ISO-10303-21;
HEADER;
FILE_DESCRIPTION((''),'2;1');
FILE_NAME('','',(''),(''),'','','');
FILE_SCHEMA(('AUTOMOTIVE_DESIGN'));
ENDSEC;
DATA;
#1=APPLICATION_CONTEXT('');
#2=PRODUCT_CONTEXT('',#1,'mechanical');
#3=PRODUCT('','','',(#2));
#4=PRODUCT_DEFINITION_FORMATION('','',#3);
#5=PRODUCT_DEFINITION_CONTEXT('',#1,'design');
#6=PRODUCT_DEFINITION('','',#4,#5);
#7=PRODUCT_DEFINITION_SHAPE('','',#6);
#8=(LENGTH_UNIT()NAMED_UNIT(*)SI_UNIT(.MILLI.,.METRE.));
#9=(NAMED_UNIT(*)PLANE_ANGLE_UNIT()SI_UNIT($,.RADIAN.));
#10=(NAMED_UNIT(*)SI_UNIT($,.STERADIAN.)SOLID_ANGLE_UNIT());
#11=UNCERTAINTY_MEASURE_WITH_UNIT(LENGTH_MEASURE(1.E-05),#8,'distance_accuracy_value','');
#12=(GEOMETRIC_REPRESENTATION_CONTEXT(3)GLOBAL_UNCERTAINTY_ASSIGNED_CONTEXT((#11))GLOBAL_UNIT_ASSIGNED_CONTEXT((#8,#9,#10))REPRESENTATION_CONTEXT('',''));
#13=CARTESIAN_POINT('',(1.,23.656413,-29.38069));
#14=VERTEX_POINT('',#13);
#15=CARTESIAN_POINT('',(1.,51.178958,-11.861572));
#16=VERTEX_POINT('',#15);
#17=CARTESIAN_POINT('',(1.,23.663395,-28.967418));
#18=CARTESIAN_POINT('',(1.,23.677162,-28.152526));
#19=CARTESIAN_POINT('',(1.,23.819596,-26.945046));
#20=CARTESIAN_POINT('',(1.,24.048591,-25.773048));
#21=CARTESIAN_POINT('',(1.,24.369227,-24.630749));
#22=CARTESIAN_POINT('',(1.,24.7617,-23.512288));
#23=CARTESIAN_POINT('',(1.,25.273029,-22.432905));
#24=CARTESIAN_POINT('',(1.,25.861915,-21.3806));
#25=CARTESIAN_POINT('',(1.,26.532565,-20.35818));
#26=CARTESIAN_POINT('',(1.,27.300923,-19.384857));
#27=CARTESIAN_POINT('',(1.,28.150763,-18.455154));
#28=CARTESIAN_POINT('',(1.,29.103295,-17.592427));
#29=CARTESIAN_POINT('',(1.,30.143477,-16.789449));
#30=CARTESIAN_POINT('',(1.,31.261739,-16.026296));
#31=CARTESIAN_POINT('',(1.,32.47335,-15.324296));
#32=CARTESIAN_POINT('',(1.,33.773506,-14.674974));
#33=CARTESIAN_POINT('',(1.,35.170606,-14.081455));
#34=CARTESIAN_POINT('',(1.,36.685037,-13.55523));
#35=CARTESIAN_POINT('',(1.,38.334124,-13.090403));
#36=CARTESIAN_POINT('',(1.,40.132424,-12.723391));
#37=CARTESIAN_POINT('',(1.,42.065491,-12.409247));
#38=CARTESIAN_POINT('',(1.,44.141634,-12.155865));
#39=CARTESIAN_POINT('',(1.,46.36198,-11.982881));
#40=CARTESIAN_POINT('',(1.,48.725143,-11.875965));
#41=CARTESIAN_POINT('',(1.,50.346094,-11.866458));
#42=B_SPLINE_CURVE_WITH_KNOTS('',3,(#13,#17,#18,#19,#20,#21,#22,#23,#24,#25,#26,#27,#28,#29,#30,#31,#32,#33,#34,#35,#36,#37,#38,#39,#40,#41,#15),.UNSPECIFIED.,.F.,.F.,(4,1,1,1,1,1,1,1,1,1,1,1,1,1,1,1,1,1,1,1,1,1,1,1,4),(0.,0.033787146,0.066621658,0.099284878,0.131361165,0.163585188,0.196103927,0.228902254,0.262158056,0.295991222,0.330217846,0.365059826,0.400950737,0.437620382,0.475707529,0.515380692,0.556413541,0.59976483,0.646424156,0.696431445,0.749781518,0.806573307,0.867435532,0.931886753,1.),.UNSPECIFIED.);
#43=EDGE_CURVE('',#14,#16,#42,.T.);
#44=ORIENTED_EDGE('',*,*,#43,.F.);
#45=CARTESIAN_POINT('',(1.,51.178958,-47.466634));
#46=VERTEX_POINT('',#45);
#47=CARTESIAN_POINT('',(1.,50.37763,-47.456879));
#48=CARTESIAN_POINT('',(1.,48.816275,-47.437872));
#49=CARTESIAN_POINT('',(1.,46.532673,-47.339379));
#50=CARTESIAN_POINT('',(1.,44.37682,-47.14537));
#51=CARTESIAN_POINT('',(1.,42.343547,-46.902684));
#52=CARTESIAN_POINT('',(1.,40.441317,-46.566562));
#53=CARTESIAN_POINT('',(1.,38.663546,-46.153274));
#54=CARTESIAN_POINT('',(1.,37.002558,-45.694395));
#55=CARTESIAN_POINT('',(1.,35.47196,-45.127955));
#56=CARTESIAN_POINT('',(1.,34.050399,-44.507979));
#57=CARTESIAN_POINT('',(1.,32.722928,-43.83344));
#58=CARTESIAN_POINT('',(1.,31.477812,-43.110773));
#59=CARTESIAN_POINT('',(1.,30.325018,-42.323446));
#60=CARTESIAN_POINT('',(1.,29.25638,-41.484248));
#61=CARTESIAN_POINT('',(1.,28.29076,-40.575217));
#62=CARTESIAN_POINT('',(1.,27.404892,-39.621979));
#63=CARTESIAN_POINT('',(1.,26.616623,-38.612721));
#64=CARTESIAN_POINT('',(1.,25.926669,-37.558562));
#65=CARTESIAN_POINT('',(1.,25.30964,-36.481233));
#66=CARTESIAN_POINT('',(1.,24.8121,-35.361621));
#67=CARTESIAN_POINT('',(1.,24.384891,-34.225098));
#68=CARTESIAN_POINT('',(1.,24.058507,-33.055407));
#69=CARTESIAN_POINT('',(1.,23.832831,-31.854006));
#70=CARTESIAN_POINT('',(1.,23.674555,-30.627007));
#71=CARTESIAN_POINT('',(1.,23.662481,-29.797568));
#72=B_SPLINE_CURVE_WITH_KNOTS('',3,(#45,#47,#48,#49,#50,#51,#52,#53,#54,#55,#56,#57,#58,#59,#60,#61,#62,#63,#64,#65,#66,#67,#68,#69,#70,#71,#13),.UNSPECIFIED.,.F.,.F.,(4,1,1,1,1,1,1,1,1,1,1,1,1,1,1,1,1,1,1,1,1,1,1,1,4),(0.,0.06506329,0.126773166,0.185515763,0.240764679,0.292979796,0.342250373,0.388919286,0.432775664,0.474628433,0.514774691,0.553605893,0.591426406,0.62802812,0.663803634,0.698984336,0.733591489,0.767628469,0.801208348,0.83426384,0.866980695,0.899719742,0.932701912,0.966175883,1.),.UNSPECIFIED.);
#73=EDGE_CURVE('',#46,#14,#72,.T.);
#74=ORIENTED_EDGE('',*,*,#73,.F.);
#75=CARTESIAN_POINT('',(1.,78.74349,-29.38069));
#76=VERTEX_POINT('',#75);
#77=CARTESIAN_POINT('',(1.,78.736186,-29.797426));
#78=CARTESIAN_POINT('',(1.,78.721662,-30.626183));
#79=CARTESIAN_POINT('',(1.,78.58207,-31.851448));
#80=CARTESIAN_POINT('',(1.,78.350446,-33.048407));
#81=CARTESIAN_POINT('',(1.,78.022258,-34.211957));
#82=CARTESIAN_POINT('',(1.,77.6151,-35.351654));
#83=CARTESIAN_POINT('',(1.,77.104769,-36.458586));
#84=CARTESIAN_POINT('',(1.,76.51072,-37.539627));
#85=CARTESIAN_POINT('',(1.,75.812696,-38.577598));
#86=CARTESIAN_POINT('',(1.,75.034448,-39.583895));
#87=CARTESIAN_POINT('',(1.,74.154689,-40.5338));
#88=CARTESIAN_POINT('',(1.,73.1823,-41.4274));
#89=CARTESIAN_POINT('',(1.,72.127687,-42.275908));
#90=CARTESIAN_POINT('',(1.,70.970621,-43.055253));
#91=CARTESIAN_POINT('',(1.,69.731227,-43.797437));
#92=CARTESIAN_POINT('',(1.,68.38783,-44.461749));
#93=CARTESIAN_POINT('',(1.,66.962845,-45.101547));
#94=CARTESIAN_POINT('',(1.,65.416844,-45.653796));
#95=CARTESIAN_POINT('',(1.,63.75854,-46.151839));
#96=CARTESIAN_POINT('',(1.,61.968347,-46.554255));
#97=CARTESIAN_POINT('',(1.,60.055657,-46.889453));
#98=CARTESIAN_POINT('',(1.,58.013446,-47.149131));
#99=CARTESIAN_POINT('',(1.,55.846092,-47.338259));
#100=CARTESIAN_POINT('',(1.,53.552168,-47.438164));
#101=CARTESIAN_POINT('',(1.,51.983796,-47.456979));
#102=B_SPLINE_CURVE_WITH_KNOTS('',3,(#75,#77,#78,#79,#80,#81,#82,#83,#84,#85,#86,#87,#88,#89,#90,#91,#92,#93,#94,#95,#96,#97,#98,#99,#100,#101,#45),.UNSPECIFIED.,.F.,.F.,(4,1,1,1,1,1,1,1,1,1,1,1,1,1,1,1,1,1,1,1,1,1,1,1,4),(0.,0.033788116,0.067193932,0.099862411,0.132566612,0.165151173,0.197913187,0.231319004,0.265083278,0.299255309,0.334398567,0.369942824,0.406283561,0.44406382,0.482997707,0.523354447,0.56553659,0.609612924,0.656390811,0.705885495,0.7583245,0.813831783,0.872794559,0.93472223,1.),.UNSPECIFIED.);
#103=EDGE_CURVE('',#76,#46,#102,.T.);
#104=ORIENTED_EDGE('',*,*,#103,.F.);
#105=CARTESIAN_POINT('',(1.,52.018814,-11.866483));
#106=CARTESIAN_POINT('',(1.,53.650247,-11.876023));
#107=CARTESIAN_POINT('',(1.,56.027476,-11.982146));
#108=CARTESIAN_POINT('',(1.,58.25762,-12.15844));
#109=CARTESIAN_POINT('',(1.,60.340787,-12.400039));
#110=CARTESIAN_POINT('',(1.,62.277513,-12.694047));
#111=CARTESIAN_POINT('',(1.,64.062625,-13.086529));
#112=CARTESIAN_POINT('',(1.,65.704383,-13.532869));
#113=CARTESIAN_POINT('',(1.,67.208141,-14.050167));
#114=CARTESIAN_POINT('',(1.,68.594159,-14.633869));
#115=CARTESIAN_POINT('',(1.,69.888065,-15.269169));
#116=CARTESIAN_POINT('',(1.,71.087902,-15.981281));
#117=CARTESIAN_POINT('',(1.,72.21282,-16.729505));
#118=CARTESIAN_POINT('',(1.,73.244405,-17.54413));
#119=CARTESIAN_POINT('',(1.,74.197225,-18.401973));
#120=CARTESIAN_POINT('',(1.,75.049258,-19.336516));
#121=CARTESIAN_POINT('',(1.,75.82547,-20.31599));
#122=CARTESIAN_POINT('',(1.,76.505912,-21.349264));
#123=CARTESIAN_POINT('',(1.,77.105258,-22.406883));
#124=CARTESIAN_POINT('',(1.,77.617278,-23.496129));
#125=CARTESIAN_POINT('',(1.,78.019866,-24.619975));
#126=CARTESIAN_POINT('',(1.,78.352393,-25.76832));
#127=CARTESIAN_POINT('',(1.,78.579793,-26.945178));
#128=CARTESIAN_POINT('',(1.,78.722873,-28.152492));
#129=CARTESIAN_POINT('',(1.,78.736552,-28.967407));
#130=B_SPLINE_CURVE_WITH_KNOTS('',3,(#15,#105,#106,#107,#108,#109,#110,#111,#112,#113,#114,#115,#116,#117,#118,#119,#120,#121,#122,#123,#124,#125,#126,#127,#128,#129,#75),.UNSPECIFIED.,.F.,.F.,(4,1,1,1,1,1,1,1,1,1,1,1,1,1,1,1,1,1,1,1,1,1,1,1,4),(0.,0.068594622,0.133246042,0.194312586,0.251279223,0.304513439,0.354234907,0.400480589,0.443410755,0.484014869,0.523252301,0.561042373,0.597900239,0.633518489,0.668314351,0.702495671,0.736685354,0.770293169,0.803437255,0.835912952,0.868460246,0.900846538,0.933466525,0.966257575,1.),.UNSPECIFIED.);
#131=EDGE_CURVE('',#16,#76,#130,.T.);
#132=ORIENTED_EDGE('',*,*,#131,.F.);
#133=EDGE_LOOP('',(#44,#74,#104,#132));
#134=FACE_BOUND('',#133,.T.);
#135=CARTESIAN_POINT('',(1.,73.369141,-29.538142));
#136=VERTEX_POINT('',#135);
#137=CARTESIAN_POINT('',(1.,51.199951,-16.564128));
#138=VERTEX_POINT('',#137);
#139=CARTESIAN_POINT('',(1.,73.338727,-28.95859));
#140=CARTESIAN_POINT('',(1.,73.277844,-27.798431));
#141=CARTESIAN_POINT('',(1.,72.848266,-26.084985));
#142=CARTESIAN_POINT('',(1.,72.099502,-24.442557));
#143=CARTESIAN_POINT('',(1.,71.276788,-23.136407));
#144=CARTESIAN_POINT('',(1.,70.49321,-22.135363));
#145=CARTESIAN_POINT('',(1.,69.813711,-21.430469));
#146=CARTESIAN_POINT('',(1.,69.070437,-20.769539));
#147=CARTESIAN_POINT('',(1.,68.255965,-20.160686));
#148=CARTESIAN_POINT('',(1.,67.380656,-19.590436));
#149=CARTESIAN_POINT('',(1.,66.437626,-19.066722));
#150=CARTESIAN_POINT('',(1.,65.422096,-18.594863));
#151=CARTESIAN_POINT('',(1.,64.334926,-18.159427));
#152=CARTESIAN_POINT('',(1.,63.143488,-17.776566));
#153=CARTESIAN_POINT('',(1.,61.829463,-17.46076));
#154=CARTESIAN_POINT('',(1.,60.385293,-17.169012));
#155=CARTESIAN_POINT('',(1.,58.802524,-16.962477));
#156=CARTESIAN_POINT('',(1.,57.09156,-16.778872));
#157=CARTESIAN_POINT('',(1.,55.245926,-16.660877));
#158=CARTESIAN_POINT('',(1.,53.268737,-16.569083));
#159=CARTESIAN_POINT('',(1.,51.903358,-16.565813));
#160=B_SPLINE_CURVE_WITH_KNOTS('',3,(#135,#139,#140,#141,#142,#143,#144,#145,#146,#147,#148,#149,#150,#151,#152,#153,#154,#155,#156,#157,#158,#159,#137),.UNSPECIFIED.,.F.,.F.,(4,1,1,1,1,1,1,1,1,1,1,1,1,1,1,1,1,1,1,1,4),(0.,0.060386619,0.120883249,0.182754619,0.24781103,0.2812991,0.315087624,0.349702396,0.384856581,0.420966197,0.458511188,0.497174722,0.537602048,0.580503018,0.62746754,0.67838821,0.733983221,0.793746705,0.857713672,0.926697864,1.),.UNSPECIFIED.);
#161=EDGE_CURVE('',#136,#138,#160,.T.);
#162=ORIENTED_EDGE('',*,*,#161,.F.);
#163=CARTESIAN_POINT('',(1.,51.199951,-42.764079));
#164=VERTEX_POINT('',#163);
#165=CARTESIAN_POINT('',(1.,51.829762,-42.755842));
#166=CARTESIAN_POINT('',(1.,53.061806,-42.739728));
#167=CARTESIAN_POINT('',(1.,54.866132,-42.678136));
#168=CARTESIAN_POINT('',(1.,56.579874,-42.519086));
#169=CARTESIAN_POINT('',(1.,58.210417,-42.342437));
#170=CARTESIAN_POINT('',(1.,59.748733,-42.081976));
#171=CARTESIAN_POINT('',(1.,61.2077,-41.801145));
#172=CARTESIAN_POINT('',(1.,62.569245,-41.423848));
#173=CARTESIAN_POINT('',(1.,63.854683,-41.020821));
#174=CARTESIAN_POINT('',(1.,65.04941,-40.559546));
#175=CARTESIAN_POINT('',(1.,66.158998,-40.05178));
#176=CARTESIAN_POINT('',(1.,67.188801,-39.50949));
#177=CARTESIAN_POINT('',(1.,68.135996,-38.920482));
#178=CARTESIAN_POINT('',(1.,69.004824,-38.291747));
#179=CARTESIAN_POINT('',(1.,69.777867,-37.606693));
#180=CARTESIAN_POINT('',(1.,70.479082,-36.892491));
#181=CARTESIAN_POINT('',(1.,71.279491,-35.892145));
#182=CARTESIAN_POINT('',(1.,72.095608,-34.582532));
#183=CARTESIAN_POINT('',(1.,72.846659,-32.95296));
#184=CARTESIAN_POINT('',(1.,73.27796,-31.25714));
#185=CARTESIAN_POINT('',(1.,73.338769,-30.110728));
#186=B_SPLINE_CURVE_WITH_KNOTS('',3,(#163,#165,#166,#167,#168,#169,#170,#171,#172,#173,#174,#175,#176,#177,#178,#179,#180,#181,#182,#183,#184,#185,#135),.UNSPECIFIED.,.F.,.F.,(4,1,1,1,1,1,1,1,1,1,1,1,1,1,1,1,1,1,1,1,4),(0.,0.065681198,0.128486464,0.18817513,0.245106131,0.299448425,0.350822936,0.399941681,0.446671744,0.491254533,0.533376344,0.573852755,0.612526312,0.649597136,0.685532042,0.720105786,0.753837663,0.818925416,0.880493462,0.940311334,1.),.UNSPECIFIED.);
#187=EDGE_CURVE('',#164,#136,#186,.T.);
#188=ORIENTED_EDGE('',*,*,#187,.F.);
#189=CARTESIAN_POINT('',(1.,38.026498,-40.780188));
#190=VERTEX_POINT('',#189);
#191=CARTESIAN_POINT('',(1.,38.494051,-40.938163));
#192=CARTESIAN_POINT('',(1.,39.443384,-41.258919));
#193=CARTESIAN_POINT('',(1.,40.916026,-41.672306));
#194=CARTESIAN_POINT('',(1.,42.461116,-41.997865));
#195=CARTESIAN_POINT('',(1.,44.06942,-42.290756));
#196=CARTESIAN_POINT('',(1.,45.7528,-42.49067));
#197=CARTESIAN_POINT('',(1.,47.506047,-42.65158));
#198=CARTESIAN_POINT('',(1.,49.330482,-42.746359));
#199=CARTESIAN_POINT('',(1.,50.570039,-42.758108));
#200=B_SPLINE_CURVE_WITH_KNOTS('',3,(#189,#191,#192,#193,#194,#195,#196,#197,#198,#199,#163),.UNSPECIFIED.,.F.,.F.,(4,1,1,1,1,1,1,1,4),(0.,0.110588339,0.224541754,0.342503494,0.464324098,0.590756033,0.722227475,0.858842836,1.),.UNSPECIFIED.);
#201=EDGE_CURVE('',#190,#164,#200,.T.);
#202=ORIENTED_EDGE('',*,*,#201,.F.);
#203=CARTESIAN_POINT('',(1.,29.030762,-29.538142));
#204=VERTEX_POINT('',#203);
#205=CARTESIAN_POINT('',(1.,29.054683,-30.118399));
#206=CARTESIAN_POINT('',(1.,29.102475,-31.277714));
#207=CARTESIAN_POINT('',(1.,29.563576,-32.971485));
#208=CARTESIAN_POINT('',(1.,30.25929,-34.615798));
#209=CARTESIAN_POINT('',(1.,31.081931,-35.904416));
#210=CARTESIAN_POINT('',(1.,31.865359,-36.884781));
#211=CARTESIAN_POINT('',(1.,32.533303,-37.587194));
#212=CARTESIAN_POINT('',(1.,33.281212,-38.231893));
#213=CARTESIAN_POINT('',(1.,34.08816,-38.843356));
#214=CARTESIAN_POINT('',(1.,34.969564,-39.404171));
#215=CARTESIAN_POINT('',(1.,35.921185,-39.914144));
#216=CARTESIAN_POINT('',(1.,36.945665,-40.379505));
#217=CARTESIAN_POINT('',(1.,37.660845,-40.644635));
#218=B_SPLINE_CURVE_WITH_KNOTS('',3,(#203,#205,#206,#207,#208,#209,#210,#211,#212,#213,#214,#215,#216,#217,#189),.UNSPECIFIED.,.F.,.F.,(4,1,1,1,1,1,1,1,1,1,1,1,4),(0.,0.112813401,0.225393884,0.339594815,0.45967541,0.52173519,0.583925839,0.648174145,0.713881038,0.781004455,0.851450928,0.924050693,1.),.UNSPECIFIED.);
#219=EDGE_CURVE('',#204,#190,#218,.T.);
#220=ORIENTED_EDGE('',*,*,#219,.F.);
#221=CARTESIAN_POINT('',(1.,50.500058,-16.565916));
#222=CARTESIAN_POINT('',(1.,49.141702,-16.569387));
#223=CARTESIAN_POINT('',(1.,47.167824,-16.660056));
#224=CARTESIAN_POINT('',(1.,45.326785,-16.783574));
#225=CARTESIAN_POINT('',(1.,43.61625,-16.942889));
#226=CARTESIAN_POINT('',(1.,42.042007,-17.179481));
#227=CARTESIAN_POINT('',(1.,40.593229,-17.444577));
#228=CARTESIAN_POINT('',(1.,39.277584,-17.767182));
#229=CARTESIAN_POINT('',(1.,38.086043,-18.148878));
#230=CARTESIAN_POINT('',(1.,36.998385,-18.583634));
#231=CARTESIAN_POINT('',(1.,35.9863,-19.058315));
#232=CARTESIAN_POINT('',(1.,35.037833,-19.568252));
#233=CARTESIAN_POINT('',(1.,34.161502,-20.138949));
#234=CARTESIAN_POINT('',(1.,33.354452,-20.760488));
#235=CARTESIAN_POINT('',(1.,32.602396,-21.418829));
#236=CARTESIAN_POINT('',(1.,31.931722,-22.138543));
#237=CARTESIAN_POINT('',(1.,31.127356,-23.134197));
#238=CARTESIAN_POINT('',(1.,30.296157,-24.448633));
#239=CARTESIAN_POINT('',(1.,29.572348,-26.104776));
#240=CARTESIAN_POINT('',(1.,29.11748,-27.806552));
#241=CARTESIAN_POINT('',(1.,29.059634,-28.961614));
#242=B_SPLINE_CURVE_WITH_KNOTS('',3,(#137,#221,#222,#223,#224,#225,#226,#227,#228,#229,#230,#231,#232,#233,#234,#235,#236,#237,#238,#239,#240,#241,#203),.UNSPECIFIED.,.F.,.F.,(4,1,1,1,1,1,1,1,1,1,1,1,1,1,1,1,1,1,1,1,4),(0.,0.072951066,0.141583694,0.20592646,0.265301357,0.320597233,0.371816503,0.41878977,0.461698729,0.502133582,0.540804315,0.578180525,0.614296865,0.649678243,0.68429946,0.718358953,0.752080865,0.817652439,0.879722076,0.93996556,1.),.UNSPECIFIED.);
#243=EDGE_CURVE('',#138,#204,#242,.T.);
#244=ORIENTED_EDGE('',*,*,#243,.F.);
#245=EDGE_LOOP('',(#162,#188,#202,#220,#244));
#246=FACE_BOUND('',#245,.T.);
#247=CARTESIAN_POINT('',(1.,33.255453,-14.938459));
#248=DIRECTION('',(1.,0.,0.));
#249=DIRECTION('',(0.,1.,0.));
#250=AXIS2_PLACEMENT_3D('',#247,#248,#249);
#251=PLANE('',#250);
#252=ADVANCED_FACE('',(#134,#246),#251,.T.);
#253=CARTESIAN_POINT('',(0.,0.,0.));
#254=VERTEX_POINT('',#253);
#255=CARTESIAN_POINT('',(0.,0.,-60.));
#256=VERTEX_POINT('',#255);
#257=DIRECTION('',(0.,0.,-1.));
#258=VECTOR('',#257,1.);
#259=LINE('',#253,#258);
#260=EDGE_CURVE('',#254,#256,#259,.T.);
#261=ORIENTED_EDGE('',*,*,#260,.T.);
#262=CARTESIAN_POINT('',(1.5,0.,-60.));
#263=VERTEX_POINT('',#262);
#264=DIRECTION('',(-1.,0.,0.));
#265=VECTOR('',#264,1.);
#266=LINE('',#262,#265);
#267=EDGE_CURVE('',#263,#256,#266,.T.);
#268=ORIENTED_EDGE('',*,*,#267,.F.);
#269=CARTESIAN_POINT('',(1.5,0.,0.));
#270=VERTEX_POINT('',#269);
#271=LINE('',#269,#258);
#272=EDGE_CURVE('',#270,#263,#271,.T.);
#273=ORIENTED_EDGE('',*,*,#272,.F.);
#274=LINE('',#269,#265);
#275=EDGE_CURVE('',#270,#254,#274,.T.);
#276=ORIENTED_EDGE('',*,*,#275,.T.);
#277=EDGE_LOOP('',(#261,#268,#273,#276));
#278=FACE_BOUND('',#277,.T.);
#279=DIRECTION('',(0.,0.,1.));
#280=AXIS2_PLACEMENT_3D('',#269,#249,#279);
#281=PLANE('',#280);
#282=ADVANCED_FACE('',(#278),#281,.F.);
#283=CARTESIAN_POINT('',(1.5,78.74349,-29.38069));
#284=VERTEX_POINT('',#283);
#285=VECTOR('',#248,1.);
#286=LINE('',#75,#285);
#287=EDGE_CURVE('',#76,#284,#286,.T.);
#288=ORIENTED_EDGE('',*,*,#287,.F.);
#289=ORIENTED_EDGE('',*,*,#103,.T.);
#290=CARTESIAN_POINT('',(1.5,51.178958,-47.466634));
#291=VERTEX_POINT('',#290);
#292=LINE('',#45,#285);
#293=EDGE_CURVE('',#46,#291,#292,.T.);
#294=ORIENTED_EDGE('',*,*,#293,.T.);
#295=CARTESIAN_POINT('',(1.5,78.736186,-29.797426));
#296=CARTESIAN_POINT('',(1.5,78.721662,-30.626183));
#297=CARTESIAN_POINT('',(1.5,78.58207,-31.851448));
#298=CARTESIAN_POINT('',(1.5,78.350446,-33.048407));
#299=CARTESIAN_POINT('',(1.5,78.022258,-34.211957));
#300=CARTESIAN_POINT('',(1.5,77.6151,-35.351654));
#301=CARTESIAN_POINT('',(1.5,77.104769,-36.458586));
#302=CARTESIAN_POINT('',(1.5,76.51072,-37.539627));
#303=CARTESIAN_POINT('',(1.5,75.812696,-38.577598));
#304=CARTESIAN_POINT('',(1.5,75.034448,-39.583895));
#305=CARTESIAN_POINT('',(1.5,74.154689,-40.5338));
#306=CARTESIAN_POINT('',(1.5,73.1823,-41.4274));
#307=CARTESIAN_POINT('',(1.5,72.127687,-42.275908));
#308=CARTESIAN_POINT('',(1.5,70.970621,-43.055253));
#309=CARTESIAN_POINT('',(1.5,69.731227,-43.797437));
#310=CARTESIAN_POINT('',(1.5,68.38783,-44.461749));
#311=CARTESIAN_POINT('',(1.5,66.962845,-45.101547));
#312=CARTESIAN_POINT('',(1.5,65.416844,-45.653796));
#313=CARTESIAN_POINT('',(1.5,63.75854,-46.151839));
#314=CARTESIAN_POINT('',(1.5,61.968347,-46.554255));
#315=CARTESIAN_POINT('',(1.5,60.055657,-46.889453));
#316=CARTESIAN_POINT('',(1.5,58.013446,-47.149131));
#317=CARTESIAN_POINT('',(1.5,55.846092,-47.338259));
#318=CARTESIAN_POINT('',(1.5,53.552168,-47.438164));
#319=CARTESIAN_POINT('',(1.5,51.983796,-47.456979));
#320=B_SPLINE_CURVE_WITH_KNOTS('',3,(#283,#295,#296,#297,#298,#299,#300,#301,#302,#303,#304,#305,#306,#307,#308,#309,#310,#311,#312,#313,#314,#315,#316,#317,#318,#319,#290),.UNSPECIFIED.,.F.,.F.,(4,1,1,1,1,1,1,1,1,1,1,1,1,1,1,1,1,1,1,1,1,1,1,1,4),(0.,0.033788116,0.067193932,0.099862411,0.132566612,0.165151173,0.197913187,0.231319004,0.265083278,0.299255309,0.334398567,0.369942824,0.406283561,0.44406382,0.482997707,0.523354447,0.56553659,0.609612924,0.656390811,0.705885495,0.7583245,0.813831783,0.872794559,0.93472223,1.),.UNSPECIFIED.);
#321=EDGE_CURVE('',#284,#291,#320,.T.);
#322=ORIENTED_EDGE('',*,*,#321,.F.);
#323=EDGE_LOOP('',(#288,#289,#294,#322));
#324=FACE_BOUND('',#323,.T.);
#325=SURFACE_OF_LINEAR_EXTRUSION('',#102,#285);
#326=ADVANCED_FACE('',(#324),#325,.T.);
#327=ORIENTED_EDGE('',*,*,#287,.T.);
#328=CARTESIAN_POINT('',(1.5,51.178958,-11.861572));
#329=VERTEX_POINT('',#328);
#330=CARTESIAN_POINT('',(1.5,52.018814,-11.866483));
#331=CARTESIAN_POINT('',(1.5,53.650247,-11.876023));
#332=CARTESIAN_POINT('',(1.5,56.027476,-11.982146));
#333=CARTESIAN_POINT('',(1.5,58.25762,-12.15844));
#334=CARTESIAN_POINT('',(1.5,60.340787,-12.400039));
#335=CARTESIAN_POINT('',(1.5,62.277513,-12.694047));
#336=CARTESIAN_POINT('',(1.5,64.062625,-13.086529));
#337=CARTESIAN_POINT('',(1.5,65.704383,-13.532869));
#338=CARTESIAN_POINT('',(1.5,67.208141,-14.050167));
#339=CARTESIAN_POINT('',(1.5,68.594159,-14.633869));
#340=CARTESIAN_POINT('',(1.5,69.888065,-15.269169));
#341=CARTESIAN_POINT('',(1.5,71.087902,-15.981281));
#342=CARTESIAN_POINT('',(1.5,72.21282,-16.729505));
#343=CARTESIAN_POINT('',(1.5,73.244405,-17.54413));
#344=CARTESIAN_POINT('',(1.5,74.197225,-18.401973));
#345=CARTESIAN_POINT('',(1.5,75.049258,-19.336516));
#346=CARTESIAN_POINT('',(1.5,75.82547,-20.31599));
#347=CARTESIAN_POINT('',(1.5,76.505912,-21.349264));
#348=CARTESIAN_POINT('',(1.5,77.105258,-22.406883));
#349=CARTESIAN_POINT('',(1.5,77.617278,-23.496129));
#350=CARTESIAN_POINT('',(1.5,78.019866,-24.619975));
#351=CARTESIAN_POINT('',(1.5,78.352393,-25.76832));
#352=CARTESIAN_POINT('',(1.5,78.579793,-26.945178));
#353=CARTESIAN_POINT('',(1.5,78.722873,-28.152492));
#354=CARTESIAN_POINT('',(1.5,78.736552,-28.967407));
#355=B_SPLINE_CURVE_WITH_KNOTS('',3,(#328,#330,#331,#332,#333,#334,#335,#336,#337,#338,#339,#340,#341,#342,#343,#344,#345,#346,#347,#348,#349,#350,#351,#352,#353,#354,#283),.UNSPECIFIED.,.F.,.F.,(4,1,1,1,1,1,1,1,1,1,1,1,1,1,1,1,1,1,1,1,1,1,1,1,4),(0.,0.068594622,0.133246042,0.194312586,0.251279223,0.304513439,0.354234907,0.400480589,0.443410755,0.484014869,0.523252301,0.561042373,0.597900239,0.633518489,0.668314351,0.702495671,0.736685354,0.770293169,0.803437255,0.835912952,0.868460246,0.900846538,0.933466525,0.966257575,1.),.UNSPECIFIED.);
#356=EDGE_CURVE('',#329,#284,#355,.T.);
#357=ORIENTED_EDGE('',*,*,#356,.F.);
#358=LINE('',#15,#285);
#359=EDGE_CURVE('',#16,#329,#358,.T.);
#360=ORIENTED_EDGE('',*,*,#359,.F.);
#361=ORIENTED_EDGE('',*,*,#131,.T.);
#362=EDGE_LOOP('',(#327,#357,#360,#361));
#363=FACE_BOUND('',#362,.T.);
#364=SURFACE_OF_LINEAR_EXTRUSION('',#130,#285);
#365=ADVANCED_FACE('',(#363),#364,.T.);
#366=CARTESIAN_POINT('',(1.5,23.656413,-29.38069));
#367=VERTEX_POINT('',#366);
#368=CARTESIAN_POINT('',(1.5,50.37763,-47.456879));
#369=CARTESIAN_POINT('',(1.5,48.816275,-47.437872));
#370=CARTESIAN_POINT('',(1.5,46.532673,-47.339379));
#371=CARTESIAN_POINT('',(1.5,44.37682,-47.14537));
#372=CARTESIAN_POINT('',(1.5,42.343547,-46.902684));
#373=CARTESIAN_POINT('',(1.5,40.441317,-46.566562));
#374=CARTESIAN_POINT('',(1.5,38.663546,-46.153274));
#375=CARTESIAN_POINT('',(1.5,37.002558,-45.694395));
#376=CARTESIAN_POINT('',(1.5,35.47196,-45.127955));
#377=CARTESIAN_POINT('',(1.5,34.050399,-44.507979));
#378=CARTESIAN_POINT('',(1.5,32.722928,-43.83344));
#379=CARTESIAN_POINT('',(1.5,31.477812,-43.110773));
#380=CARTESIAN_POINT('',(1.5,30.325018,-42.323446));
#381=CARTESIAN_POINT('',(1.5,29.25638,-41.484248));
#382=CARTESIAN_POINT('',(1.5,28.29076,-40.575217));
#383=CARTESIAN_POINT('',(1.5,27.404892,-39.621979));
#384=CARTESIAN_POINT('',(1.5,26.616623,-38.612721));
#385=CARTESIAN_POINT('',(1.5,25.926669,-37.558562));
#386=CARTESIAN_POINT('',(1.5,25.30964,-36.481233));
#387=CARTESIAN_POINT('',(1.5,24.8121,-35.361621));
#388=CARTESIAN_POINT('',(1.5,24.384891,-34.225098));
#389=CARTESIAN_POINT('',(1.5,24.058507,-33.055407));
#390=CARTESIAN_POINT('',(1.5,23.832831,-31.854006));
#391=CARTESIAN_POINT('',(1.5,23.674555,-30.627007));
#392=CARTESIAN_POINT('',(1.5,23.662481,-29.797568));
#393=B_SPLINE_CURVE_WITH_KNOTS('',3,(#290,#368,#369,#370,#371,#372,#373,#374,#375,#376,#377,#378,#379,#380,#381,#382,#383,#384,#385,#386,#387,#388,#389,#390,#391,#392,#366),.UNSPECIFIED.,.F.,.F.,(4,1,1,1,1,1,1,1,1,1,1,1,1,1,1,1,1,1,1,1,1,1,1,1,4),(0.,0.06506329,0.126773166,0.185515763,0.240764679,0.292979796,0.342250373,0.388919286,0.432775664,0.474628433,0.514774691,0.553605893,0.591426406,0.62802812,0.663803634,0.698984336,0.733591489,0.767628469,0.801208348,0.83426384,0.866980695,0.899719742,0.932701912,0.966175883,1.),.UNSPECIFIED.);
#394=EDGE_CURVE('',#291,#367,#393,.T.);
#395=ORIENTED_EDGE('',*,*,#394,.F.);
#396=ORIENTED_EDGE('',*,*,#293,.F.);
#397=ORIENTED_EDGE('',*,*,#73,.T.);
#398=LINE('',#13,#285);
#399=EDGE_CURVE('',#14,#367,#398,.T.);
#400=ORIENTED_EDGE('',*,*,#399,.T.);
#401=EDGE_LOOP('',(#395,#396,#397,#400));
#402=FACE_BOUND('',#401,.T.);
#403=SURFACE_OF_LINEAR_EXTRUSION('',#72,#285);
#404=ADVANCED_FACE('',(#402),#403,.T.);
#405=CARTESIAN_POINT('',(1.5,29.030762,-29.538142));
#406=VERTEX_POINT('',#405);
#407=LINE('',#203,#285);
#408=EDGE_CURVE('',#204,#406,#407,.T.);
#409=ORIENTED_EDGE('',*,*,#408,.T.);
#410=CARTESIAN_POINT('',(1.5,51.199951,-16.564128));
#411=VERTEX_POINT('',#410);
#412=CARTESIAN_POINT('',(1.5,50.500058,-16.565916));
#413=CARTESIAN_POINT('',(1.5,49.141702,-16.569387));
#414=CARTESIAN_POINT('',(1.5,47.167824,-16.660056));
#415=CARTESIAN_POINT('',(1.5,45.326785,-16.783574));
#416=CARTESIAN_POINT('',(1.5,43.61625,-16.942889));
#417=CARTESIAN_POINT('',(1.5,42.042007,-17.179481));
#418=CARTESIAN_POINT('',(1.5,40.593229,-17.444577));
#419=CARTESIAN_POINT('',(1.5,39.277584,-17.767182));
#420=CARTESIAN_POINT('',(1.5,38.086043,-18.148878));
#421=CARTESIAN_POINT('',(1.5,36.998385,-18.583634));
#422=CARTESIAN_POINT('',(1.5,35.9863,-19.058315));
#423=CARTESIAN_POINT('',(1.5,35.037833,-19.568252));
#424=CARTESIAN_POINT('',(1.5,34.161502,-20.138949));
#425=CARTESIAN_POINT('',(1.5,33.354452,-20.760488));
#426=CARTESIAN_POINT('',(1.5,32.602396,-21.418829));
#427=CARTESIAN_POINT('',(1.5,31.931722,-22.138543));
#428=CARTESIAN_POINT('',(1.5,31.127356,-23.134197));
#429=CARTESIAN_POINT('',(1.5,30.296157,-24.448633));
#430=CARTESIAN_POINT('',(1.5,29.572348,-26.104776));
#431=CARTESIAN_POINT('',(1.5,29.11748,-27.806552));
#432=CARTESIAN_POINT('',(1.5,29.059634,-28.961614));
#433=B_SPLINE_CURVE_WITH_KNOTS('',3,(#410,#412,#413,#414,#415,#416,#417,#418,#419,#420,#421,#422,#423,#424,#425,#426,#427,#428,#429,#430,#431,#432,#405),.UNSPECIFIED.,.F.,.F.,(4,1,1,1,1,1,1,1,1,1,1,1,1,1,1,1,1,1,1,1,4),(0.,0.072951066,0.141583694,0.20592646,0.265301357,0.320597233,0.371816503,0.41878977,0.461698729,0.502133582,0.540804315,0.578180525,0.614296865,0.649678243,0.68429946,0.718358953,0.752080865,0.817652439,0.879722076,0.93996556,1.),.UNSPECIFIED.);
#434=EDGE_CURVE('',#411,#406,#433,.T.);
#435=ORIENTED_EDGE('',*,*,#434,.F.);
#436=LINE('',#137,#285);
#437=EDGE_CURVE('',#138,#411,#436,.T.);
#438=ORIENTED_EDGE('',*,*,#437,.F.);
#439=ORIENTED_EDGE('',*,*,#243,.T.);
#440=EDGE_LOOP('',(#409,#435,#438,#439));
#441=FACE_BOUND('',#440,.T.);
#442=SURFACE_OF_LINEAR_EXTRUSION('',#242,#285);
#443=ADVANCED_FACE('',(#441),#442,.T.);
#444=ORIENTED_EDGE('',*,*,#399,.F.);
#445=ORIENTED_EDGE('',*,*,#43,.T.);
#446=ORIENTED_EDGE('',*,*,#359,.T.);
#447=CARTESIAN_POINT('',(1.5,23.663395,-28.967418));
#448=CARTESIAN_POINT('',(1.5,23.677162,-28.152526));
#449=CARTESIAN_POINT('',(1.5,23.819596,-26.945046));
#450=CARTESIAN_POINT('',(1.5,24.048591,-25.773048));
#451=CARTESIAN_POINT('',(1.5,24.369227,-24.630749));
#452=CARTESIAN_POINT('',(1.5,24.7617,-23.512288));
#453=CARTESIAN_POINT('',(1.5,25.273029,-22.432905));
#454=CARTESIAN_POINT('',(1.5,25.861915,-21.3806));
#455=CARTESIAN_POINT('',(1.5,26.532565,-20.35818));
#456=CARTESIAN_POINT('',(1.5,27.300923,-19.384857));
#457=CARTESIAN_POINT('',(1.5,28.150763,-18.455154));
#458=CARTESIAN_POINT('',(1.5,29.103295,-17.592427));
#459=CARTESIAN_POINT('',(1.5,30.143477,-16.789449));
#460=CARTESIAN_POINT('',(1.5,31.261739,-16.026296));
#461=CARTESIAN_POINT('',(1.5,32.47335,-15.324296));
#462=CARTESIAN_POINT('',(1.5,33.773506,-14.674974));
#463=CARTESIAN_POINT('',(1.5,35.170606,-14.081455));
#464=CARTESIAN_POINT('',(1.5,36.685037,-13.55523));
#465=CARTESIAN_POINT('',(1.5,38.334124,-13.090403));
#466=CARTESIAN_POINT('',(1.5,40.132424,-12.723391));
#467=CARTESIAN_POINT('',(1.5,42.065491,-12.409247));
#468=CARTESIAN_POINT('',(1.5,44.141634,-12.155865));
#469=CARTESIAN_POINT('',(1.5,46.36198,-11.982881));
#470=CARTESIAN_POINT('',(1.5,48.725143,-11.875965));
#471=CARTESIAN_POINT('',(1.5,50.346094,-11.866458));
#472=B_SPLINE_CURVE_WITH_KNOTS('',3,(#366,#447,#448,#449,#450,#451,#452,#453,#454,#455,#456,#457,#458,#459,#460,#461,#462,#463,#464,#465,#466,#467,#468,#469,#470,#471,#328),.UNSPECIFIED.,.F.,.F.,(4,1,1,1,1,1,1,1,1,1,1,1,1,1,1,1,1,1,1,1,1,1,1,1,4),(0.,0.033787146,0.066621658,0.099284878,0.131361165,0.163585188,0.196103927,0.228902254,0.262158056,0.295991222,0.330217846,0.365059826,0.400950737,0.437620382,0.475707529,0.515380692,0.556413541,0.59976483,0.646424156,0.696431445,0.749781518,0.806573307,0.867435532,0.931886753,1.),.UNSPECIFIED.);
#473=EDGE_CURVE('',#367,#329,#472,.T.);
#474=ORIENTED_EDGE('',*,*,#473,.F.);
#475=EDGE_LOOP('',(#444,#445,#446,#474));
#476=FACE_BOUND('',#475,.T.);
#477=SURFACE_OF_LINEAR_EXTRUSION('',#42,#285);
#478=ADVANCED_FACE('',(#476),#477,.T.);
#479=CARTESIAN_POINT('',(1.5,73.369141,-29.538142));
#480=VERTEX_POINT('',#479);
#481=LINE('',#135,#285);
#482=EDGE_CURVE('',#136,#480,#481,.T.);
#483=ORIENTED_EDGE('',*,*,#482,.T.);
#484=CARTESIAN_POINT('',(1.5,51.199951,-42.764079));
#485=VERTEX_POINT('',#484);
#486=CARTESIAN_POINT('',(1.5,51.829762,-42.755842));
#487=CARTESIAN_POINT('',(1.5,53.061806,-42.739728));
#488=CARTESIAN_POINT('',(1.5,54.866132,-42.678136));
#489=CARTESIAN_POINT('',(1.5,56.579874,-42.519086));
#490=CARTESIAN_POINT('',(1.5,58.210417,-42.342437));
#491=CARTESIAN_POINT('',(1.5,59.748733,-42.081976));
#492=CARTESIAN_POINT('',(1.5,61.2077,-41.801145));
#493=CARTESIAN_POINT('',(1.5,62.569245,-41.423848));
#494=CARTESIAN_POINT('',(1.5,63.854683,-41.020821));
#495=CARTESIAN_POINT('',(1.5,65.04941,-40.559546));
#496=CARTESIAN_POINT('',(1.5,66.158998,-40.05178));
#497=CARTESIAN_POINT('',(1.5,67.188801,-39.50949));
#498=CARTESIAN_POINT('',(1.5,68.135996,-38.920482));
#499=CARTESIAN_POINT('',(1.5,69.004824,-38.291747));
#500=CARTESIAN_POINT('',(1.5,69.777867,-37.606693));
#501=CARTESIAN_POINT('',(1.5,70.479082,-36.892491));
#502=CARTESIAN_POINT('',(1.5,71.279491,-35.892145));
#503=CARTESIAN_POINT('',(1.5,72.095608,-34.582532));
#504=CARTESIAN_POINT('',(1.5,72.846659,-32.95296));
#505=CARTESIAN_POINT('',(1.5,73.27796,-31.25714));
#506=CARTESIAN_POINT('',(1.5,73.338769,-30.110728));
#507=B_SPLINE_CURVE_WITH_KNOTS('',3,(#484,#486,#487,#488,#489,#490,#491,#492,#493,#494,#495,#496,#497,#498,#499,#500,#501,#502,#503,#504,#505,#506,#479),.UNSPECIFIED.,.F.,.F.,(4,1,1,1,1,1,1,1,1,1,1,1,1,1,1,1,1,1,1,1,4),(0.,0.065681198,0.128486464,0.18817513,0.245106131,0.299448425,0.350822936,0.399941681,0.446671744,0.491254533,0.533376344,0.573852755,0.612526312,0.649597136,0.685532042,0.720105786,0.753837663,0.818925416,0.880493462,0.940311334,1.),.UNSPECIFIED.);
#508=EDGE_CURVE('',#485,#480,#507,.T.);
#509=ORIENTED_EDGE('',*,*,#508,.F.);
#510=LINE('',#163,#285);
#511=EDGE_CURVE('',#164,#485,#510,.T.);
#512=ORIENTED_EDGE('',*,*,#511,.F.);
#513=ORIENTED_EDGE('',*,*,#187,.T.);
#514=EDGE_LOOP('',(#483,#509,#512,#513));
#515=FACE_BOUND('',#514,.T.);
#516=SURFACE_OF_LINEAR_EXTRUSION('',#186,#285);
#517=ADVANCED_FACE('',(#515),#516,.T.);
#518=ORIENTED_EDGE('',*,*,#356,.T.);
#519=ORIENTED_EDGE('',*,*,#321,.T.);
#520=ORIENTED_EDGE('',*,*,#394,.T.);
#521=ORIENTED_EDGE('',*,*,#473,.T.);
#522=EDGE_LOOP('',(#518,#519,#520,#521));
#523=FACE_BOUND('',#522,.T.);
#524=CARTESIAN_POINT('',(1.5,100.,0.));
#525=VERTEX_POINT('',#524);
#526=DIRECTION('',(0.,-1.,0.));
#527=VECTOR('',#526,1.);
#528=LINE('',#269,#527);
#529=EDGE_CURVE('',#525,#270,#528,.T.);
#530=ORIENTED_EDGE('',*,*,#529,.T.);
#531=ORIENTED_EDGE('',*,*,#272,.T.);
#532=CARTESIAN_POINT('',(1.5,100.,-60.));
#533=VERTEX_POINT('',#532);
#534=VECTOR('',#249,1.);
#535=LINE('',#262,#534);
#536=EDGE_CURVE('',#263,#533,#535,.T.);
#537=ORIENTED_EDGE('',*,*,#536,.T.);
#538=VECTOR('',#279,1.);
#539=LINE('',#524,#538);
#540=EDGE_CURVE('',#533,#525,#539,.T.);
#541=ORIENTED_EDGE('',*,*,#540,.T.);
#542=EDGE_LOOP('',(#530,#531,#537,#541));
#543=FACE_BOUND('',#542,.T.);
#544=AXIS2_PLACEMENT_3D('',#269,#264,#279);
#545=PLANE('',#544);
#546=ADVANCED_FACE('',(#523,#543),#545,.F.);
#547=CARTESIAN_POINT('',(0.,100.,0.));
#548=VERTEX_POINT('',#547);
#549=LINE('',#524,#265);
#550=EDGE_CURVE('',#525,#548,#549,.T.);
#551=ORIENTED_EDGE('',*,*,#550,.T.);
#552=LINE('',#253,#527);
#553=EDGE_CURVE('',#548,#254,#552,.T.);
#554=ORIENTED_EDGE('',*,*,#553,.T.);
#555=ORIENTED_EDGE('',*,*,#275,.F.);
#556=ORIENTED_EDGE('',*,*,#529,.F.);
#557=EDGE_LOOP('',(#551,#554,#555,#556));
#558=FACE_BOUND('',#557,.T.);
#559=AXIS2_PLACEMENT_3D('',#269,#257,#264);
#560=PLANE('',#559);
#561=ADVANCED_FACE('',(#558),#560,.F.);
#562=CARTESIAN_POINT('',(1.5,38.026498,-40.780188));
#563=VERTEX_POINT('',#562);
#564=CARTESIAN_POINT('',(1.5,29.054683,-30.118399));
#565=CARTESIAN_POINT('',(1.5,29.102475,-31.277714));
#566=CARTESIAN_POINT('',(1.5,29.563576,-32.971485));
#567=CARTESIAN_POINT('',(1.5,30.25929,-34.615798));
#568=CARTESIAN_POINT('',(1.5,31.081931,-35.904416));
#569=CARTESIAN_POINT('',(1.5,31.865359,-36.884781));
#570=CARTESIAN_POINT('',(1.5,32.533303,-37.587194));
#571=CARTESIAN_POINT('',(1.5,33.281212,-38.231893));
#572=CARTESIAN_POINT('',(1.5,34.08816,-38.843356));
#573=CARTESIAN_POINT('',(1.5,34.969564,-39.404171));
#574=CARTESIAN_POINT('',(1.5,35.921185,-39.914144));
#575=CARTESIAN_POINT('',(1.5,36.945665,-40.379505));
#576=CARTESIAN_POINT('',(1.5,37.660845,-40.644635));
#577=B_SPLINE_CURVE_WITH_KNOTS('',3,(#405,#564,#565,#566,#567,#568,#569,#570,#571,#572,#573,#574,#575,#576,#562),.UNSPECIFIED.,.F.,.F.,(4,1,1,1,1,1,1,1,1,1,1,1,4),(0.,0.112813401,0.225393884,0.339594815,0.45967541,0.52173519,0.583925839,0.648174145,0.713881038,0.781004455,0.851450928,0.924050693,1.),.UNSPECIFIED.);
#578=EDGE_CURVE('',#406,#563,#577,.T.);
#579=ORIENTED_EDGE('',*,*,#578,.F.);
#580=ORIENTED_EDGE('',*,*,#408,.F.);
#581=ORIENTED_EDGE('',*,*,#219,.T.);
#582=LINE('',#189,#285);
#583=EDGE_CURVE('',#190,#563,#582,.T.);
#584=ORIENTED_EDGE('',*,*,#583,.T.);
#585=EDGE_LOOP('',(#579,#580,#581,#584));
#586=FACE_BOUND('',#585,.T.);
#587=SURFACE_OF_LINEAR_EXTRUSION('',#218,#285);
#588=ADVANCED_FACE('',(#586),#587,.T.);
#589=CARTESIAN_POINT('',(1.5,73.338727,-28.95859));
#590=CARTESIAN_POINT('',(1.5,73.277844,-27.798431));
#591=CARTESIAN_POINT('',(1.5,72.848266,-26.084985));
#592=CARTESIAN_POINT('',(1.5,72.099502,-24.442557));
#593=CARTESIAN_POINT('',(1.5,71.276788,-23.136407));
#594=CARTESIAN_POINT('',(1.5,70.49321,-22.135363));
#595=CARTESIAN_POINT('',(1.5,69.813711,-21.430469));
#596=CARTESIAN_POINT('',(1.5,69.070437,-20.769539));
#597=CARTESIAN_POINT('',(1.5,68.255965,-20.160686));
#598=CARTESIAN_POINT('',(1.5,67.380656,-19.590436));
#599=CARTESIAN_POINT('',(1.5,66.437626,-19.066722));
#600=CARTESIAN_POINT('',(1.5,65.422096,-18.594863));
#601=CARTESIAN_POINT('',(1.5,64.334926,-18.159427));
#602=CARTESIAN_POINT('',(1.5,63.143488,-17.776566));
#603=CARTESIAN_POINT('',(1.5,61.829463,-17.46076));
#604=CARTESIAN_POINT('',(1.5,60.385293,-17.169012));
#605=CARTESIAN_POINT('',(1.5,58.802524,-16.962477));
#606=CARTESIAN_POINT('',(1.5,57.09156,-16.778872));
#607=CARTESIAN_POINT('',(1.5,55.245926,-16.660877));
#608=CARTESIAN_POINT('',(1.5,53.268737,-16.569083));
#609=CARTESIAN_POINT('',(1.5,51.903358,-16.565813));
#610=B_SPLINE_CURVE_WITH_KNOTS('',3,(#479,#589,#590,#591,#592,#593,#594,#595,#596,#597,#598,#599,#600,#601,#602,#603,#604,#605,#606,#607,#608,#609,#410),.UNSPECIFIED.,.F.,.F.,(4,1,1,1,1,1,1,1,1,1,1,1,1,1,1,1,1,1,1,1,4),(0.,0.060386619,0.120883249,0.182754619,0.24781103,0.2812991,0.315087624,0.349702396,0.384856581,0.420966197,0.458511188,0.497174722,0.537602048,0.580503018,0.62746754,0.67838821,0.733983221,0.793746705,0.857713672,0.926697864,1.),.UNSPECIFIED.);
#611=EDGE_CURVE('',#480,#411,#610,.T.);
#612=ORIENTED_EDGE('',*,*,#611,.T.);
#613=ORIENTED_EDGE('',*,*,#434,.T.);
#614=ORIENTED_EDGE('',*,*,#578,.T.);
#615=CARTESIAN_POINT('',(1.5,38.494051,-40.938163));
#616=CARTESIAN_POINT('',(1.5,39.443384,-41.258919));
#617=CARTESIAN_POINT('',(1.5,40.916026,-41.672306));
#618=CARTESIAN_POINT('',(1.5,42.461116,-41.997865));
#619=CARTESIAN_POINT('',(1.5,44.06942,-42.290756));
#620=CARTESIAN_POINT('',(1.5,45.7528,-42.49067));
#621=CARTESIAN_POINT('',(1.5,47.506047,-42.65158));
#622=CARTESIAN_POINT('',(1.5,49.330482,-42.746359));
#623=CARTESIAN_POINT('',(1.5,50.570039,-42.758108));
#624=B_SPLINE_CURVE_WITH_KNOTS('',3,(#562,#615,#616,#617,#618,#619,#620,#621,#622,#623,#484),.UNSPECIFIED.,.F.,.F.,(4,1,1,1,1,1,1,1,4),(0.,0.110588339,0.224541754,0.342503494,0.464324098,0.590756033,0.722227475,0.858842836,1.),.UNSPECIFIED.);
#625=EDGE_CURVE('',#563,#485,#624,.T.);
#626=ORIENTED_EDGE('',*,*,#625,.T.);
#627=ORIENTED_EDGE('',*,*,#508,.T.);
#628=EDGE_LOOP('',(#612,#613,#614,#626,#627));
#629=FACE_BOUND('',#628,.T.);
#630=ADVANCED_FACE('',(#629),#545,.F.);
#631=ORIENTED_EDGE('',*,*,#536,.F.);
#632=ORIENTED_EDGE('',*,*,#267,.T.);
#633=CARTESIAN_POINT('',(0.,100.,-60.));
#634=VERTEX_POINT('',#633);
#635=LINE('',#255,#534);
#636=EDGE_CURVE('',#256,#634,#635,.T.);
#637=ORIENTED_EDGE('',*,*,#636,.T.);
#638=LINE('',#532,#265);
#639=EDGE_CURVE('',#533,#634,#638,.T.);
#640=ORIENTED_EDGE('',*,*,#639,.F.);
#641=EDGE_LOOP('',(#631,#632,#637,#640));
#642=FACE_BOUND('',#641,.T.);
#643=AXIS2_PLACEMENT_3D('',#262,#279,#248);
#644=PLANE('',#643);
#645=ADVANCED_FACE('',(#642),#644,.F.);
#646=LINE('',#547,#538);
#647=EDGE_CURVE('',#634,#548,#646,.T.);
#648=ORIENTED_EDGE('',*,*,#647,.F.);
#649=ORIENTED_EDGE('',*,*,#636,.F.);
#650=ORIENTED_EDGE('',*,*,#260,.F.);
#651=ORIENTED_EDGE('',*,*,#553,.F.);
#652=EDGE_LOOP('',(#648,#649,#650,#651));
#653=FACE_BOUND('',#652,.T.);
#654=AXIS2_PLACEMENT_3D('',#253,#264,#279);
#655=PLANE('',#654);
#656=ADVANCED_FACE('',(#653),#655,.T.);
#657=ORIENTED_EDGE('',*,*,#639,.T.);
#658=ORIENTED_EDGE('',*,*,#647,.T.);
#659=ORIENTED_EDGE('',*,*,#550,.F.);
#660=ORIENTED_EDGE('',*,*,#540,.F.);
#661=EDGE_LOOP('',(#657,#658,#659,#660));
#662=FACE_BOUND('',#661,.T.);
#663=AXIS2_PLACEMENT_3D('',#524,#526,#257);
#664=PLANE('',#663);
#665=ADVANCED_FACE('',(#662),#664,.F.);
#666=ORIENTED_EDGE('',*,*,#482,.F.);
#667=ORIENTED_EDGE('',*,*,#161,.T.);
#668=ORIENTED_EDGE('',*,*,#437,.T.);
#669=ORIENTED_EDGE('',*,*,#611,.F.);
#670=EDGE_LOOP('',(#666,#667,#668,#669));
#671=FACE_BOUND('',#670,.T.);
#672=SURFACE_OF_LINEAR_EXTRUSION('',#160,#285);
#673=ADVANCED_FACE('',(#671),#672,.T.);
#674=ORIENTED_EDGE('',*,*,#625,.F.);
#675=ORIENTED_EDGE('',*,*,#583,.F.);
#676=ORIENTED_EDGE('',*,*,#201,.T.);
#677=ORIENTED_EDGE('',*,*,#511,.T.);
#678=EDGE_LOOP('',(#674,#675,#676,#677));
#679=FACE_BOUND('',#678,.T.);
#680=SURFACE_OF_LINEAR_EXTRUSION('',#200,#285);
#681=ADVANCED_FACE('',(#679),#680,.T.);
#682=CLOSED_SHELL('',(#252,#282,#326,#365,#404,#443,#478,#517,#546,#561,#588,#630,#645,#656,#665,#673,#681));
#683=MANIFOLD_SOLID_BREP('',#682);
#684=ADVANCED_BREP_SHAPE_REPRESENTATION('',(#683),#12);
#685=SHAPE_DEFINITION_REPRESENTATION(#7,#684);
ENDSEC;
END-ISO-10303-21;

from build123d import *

# Parameters (mm, degrees)
SKETCH1_W           = 60
SKETCH1_H           = 100
BOSS_EXTRUDE1_DEPTH = 1.5
CUT_EXTRUDE1_DEPTH  = 0.5


with BuildPart() as part:
    # Sketch1 → Boss-Extrude1 (new body)
    with BuildSketch(Plane(origin=(0, 0, 0), x_dir=(0, 0, -1), z_dir=(1, 0, 0))):
        with Locations((30, 50)):
            Rectangle(SKETCH1_W, SKETCH1_H)
    extrude(amount=BOSS_EXTRUDE1_DEPTH)

    # Sketch2 → Cut-Extrude1 (cut)
    with BuildSketch(Plane(origin=(1.5, 0, 0), x_dir=(0, 0, -1), z_dir=(1, 0, 0))):
        with BuildLine():
            add(Edge.make_bspline(
                [(11.861572266, 51.178957621), (11.866483157, 52.01881409), (11.876022634, 53.650247385), (11.982146224, 56.027475881), (12.158439592, 58.257620052), (12.400038666, 60.340786644), (12.694046737, 62.277513452), (13.08652929, 64.062624774), (13.532868703, 65.704382682), (14.050167214, 67.208140834), (14.633869024, 68.594158719), (15.269169344, 69.888065036), (15.981280939, 71.087902015), (16.729505327, 72.212819981), (17.544130252, 73.244404803), (18.401973402, 74.197224604), (19.336516322, 75.049258251), (20.315990392, 75.825470017), (21.349263533, 76.505912268), (22.406883193, 77.105258438), (23.496129033, 77.617278353), (24.619974934, 78.019865843), (25.768319661, 78.352393329), (26.945177551, 78.57979315), (28.152491721, 78.722873456), (28.967406541, 78.736552342), (29.380690257, 78.743489583)],
                knots=[0, 0, 0, 0, 1.646270934, 3.197905019, 4.663502075, 6.030701355, 7.308322542, 8.50163776, 9.611534131, 10.641858119, 11.616356847, 12.558055219, 13.465016945, 14.349605745, 15.204443733, 16.039544428, 16.859896111, 17.680448484, 18.487036065, 19.28249412, 20.06191084, 20.843045899, 21.620316918, 22.403196591, 23.190181807, 24, 24, 24, 24], degree=3))
            add(Edge.make_bspline(
                [(29.380690257, 78.743489583), (29.797426358, 78.736186307), (30.626183347, 78.721662388), (31.851448395, 78.582069908), (33.048407114, 78.350445526), (34.211956508, 78.022257832), (35.351654181, 77.61510046), (36.458585764, 77.104768572), (37.539626914, 76.510720351), (38.577598427, 75.812695603), (39.583895365, 75.034448119), (40.53380024, 74.15468866), (41.427399518, 73.182300389), (42.275908223, 72.127687021), (43.055253425, 70.97062105), (43.797437142, 69.731226973), (44.46174867, 68.387830244), (45.101546615, 66.962845324), (45.653796473, 65.416843713), (46.151838759, 63.758540103), (46.554254567, 61.968347042), (46.889453334, 60.055657106), (47.149130721, 58.01344602), (47.338259067, 55.846091507), (47.438164497, 53.552167648), (47.456979074, 51.983795915), (47.466634115, 51.178957621)],
                knots=[0, 0, 0, 0, 0.810914788, 1.612654377, 2.396697861, 3.181598691, 3.963628158, 4.749916497, 5.551656086, 6.361998678, 7.18212741, 8.025565596, 8.878627764, 9.750805457, 10.657531673, 11.591944965, 12.560506719, 13.57287815, 14.630710178, 15.753379473, 16.941251878, 18.199788006, 19.531962791, 20.947069417, 22.433333509, 24, 24, 24, 24], degree=3))
            add(Edge.make_bspline(
                [(47.466634115, 51.178957621), (47.456878981, 50.37762975), (47.437871502, 48.816275072), (47.339379047, 46.532672726), (47.145370188, 44.376820324), (46.902683958, 42.343547476), (46.566561596, 40.441316956), (46.153273591, 38.663546241), (45.694395327, 37.002558092), (45.127955466, 35.471959765), (44.507979129, 34.050399477), (43.833439735, 32.722928074), (43.110772828, 31.477812184), (42.323445656, 30.325018121), (41.484247548, 29.256379647), (40.575217204, 28.290759896), (39.621979364, 27.404892058), (38.612721076, 26.616623447), (37.558561531, 25.926669372), (36.481233359, 25.309640305), (35.361621363, 24.812100312), (34.225098132, 24.38489078), (33.055407059, 24.05850748), (31.854006192, 23.83283075), (30.627006546, 23.674555371), (29.797567518, 23.662481237), (29.380690257, 23.65641276)],
                knots=[0, 0, 0, 0, 1.561518951, 3.042555995, 4.452378317, 5.7783523, 7.031515105, 8.214008947, 9.334062868, 10.386615937, 11.391082383, 12.354592575, 13.286541444, 14.194233754, 15.072674879, 15.931287219, 16.775624067, 17.606195743, 18.42308326, 19.229000347, 20.022332153, 20.807536673, 21.593273796, 22.3848459, 23.188221202, 24, 24, 24, 24], degree=3))
            add(Edge.make_bspline(
                [(29.380690257, 23.65641276), (28.967418006, 23.663394755), (28.152525794, 23.677161885), (26.945046018, 23.819595771), (25.773048192, 24.048590878), (24.630748974, 24.369227439), (23.512287804, 24.761700257), (22.43290541, 25.273028738), (21.380600335, 25.861914845), (20.358180088, 26.532565047), (19.384856977, 27.300922528), (18.455153875, 28.150763438), (17.592426626, 29.103295021), (16.789449091, 30.143476845), (16.026295593, 31.261739303), (15.324295998, 32.473350402), (14.674973564, 33.773505919), (14.081454981, 35.170605749), (13.555230257, 36.685036704), (13.090402579, 38.334124188), (12.723391305, 40.132423503), (12.409247074, 42.06549134), (12.155865354, 44.141634314), (11.98288092, 46.361979541), (11.875965432, 48.725143407), (11.866457538, 50.346093579), (11.861572266, 51.178957621)],
                knots=[0, 0, 0, 0, 0.810891512, 1.598919785, 2.382837074, 3.152667961, 3.926044502, 4.706494248, 5.493654104, 6.291793342, 7.103789334, 7.925228297, 8.761435821, 9.622817696, 10.50288917, 11.416980706, 12.369136599, 13.353924996, 14.394355917, 15.514179734, 16.714354668, 17.994756427, 19.357759367, 20.818452758, 22.365282078, 24, 24, 24, 24], degree=3))
        make_face()
        with BuildLine():
            add(Edge.make_bspline(
                [(16.564127604, 51.199951172), (16.565915894, 50.500057671), (16.569386614, 49.141701818), (16.660056419, 47.167823532), (16.783573948, 45.326785469), (16.942889072, 43.616249997), (17.179481346, 42.042007029), (17.444576761, 40.593229331), (17.767181844, 39.277584005), (18.148877972, 38.086043002), (18.583633926, 36.998384689), (19.058315115, 35.986299812), (19.568251845, 35.037832588), (20.138948921, 34.161502485), (20.760487566, 33.354451704), (21.418828848, 32.602395844), (22.138542767, 31.931722288), (23.134196943, 31.127356015), (24.448633139, 30.296156819), (26.104776297, 29.572348137), (27.80655222, 29.117480208), (28.961614497, 29.05963437), (29.538141886, 29.030761719)],
                knots=[0, 0, 0, 0, 1.459021318, 2.831673884, 4.118529203, 5.306027144, 6.411944654, 7.436330062, 8.375795394, 9.233974572, 10.042671642, 10.816086306, 11.563610507, 12.285937304, 12.993564865, 13.685989202, 14.367179055, 15.041617293, 16.353048772, 17.594441528, 18.799311195, 20, 20, 20, 20], degree=3))
            add(Edge.make_bspline(
                [(29.538141886, 29.030761719), (30.118398518, 29.054682735), (31.277713767, 29.102475381), (32.971485144, 29.563575618), (34.615798123, 30.259289713), (35.904415627, 31.081930832), (36.884781023, 31.865359219), (37.58719408, 32.533302994), (38.23189326, 33.281212299), (38.843356327, 34.088160254), (39.404171158, 34.969563803), (39.91414404, 35.921184585), (40.379505291, 36.945665225), (40.644634513, 37.660845129), (40.780188243, 38.026498159)],
                knots=[0, 0, 0, 0, 1.353760809, 2.704726607, 4.075137775, 5.516104923, 6.260822281, 7.007110065, 7.778089737, 8.566572457, 9.372053459, 10.217411131, 11.088608312, 12, 12, 12, 12], degree=3))
            add(Edge.make_bspline(
                [(40.780188243, 38.026498159), (40.938162986, 38.494051101), (41.258919464, 39.443384088), (41.6723064, 40.916025735), (41.997865484, 42.461115664), (42.290756471, 44.069420128), (42.490670421, 45.752799943), (42.65158024, 47.506046538), (42.746359491, 49.330481818), (42.758108313, 50.570038805), (42.764078776, 51.199951172)],
                knots=[0, 0, 0, 0, 0.884706709, 1.796334032, 2.740027952, 3.714592787, 4.726048262, 5.777819803, 6.87074269, 8, 8, 8, 8], degree=3))
            add(Edge.make_bspline(
                [(42.764078776, 51.199951172), (42.755841673, 51.829761655), (42.739728137, 53.061805598), (42.678135979, 54.866131568), (42.519086189, 56.579874281), (42.342436853, 58.210416604), (42.081976085, 59.748732555), (41.801145443, 61.20770012), (41.423847996, 62.569244583), (41.020821259, 63.854682782), (40.559546483, 65.049410354), (40.051780436, 66.158997545), (39.509489973, 67.188801219), (38.920481528, 68.135995951), (38.29174733, 69.004824402), (37.606692727, 69.777866606), (36.892491448, 70.479081622), (35.892144588, 71.279491165), (34.582531947, 72.095607599), (32.952960149, 72.84665929), (31.25713995, 73.277959781), (30.110728088, 73.338768925), (29.538141886, 73.369140625)],
                knots=[0, 0, 0, 0, 1.31362396, 2.569729283, 3.763502607, 4.902122613, 5.988968491, 7.01645872, 7.998833611, 8.933434873, 9.825090667, 10.667526885, 11.477055099, 12.250526234, 12.991942729, 13.710640831, 14.402115721, 15.076753259, 16.378508321, 17.609869233, 18.806226677, 20, 20, 20, 20], degree=3))
            add(Edge.make_bspline(
                [(29.538141886, 73.369140625), (28.958590102, 73.338727023), (27.798430729, 73.277844414), (26.084984543, 72.848266218), (24.442556739, 72.099502066), (23.13640721, 71.27678808), (22.135362672, 70.493210249), (21.430468804, 69.81371146), (20.769538772, 69.070437494), (20.160686339, 68.25596463), (19.590436419, 67.380656191), (19.066721664, 66.437626156), (18.594863093, 65.422095624), (18.159426849, 64.334925875), (17.776566393, 63.14348767), (17.460760218, 61.8294629), (17.169011738, 60.385293269), (16.96247724, 58.802524157), (16.778871639, 57.091560249), (16.660876821, 55.245926125), (16.569083308, 53.268737372), (16.565812591, 51.903358229), (16.564127604, 51.199951172)],
                knots=[0, 0, 0, 0, 1.207732386, 2.417664972, 3.655092373, 4.956220595, 5.625982001, 6.301752483, 6.994047911, 7.697131622, 8.419323945, 9.170223765, 9.943494443, 10.752040957, 11.610060368, 12.549350801, 13.567764191, 14.679664412, 15.874934091, 17.154273443, 18.533957287, 20, 20, 20, 20], degree=3))
        make_face(mode=Mode.SUBTRACT)
    extrude(amount=-CUT_EXTRUDE1_DEPTH, mode=Mode.SUBTRACT)


solid = part.part
